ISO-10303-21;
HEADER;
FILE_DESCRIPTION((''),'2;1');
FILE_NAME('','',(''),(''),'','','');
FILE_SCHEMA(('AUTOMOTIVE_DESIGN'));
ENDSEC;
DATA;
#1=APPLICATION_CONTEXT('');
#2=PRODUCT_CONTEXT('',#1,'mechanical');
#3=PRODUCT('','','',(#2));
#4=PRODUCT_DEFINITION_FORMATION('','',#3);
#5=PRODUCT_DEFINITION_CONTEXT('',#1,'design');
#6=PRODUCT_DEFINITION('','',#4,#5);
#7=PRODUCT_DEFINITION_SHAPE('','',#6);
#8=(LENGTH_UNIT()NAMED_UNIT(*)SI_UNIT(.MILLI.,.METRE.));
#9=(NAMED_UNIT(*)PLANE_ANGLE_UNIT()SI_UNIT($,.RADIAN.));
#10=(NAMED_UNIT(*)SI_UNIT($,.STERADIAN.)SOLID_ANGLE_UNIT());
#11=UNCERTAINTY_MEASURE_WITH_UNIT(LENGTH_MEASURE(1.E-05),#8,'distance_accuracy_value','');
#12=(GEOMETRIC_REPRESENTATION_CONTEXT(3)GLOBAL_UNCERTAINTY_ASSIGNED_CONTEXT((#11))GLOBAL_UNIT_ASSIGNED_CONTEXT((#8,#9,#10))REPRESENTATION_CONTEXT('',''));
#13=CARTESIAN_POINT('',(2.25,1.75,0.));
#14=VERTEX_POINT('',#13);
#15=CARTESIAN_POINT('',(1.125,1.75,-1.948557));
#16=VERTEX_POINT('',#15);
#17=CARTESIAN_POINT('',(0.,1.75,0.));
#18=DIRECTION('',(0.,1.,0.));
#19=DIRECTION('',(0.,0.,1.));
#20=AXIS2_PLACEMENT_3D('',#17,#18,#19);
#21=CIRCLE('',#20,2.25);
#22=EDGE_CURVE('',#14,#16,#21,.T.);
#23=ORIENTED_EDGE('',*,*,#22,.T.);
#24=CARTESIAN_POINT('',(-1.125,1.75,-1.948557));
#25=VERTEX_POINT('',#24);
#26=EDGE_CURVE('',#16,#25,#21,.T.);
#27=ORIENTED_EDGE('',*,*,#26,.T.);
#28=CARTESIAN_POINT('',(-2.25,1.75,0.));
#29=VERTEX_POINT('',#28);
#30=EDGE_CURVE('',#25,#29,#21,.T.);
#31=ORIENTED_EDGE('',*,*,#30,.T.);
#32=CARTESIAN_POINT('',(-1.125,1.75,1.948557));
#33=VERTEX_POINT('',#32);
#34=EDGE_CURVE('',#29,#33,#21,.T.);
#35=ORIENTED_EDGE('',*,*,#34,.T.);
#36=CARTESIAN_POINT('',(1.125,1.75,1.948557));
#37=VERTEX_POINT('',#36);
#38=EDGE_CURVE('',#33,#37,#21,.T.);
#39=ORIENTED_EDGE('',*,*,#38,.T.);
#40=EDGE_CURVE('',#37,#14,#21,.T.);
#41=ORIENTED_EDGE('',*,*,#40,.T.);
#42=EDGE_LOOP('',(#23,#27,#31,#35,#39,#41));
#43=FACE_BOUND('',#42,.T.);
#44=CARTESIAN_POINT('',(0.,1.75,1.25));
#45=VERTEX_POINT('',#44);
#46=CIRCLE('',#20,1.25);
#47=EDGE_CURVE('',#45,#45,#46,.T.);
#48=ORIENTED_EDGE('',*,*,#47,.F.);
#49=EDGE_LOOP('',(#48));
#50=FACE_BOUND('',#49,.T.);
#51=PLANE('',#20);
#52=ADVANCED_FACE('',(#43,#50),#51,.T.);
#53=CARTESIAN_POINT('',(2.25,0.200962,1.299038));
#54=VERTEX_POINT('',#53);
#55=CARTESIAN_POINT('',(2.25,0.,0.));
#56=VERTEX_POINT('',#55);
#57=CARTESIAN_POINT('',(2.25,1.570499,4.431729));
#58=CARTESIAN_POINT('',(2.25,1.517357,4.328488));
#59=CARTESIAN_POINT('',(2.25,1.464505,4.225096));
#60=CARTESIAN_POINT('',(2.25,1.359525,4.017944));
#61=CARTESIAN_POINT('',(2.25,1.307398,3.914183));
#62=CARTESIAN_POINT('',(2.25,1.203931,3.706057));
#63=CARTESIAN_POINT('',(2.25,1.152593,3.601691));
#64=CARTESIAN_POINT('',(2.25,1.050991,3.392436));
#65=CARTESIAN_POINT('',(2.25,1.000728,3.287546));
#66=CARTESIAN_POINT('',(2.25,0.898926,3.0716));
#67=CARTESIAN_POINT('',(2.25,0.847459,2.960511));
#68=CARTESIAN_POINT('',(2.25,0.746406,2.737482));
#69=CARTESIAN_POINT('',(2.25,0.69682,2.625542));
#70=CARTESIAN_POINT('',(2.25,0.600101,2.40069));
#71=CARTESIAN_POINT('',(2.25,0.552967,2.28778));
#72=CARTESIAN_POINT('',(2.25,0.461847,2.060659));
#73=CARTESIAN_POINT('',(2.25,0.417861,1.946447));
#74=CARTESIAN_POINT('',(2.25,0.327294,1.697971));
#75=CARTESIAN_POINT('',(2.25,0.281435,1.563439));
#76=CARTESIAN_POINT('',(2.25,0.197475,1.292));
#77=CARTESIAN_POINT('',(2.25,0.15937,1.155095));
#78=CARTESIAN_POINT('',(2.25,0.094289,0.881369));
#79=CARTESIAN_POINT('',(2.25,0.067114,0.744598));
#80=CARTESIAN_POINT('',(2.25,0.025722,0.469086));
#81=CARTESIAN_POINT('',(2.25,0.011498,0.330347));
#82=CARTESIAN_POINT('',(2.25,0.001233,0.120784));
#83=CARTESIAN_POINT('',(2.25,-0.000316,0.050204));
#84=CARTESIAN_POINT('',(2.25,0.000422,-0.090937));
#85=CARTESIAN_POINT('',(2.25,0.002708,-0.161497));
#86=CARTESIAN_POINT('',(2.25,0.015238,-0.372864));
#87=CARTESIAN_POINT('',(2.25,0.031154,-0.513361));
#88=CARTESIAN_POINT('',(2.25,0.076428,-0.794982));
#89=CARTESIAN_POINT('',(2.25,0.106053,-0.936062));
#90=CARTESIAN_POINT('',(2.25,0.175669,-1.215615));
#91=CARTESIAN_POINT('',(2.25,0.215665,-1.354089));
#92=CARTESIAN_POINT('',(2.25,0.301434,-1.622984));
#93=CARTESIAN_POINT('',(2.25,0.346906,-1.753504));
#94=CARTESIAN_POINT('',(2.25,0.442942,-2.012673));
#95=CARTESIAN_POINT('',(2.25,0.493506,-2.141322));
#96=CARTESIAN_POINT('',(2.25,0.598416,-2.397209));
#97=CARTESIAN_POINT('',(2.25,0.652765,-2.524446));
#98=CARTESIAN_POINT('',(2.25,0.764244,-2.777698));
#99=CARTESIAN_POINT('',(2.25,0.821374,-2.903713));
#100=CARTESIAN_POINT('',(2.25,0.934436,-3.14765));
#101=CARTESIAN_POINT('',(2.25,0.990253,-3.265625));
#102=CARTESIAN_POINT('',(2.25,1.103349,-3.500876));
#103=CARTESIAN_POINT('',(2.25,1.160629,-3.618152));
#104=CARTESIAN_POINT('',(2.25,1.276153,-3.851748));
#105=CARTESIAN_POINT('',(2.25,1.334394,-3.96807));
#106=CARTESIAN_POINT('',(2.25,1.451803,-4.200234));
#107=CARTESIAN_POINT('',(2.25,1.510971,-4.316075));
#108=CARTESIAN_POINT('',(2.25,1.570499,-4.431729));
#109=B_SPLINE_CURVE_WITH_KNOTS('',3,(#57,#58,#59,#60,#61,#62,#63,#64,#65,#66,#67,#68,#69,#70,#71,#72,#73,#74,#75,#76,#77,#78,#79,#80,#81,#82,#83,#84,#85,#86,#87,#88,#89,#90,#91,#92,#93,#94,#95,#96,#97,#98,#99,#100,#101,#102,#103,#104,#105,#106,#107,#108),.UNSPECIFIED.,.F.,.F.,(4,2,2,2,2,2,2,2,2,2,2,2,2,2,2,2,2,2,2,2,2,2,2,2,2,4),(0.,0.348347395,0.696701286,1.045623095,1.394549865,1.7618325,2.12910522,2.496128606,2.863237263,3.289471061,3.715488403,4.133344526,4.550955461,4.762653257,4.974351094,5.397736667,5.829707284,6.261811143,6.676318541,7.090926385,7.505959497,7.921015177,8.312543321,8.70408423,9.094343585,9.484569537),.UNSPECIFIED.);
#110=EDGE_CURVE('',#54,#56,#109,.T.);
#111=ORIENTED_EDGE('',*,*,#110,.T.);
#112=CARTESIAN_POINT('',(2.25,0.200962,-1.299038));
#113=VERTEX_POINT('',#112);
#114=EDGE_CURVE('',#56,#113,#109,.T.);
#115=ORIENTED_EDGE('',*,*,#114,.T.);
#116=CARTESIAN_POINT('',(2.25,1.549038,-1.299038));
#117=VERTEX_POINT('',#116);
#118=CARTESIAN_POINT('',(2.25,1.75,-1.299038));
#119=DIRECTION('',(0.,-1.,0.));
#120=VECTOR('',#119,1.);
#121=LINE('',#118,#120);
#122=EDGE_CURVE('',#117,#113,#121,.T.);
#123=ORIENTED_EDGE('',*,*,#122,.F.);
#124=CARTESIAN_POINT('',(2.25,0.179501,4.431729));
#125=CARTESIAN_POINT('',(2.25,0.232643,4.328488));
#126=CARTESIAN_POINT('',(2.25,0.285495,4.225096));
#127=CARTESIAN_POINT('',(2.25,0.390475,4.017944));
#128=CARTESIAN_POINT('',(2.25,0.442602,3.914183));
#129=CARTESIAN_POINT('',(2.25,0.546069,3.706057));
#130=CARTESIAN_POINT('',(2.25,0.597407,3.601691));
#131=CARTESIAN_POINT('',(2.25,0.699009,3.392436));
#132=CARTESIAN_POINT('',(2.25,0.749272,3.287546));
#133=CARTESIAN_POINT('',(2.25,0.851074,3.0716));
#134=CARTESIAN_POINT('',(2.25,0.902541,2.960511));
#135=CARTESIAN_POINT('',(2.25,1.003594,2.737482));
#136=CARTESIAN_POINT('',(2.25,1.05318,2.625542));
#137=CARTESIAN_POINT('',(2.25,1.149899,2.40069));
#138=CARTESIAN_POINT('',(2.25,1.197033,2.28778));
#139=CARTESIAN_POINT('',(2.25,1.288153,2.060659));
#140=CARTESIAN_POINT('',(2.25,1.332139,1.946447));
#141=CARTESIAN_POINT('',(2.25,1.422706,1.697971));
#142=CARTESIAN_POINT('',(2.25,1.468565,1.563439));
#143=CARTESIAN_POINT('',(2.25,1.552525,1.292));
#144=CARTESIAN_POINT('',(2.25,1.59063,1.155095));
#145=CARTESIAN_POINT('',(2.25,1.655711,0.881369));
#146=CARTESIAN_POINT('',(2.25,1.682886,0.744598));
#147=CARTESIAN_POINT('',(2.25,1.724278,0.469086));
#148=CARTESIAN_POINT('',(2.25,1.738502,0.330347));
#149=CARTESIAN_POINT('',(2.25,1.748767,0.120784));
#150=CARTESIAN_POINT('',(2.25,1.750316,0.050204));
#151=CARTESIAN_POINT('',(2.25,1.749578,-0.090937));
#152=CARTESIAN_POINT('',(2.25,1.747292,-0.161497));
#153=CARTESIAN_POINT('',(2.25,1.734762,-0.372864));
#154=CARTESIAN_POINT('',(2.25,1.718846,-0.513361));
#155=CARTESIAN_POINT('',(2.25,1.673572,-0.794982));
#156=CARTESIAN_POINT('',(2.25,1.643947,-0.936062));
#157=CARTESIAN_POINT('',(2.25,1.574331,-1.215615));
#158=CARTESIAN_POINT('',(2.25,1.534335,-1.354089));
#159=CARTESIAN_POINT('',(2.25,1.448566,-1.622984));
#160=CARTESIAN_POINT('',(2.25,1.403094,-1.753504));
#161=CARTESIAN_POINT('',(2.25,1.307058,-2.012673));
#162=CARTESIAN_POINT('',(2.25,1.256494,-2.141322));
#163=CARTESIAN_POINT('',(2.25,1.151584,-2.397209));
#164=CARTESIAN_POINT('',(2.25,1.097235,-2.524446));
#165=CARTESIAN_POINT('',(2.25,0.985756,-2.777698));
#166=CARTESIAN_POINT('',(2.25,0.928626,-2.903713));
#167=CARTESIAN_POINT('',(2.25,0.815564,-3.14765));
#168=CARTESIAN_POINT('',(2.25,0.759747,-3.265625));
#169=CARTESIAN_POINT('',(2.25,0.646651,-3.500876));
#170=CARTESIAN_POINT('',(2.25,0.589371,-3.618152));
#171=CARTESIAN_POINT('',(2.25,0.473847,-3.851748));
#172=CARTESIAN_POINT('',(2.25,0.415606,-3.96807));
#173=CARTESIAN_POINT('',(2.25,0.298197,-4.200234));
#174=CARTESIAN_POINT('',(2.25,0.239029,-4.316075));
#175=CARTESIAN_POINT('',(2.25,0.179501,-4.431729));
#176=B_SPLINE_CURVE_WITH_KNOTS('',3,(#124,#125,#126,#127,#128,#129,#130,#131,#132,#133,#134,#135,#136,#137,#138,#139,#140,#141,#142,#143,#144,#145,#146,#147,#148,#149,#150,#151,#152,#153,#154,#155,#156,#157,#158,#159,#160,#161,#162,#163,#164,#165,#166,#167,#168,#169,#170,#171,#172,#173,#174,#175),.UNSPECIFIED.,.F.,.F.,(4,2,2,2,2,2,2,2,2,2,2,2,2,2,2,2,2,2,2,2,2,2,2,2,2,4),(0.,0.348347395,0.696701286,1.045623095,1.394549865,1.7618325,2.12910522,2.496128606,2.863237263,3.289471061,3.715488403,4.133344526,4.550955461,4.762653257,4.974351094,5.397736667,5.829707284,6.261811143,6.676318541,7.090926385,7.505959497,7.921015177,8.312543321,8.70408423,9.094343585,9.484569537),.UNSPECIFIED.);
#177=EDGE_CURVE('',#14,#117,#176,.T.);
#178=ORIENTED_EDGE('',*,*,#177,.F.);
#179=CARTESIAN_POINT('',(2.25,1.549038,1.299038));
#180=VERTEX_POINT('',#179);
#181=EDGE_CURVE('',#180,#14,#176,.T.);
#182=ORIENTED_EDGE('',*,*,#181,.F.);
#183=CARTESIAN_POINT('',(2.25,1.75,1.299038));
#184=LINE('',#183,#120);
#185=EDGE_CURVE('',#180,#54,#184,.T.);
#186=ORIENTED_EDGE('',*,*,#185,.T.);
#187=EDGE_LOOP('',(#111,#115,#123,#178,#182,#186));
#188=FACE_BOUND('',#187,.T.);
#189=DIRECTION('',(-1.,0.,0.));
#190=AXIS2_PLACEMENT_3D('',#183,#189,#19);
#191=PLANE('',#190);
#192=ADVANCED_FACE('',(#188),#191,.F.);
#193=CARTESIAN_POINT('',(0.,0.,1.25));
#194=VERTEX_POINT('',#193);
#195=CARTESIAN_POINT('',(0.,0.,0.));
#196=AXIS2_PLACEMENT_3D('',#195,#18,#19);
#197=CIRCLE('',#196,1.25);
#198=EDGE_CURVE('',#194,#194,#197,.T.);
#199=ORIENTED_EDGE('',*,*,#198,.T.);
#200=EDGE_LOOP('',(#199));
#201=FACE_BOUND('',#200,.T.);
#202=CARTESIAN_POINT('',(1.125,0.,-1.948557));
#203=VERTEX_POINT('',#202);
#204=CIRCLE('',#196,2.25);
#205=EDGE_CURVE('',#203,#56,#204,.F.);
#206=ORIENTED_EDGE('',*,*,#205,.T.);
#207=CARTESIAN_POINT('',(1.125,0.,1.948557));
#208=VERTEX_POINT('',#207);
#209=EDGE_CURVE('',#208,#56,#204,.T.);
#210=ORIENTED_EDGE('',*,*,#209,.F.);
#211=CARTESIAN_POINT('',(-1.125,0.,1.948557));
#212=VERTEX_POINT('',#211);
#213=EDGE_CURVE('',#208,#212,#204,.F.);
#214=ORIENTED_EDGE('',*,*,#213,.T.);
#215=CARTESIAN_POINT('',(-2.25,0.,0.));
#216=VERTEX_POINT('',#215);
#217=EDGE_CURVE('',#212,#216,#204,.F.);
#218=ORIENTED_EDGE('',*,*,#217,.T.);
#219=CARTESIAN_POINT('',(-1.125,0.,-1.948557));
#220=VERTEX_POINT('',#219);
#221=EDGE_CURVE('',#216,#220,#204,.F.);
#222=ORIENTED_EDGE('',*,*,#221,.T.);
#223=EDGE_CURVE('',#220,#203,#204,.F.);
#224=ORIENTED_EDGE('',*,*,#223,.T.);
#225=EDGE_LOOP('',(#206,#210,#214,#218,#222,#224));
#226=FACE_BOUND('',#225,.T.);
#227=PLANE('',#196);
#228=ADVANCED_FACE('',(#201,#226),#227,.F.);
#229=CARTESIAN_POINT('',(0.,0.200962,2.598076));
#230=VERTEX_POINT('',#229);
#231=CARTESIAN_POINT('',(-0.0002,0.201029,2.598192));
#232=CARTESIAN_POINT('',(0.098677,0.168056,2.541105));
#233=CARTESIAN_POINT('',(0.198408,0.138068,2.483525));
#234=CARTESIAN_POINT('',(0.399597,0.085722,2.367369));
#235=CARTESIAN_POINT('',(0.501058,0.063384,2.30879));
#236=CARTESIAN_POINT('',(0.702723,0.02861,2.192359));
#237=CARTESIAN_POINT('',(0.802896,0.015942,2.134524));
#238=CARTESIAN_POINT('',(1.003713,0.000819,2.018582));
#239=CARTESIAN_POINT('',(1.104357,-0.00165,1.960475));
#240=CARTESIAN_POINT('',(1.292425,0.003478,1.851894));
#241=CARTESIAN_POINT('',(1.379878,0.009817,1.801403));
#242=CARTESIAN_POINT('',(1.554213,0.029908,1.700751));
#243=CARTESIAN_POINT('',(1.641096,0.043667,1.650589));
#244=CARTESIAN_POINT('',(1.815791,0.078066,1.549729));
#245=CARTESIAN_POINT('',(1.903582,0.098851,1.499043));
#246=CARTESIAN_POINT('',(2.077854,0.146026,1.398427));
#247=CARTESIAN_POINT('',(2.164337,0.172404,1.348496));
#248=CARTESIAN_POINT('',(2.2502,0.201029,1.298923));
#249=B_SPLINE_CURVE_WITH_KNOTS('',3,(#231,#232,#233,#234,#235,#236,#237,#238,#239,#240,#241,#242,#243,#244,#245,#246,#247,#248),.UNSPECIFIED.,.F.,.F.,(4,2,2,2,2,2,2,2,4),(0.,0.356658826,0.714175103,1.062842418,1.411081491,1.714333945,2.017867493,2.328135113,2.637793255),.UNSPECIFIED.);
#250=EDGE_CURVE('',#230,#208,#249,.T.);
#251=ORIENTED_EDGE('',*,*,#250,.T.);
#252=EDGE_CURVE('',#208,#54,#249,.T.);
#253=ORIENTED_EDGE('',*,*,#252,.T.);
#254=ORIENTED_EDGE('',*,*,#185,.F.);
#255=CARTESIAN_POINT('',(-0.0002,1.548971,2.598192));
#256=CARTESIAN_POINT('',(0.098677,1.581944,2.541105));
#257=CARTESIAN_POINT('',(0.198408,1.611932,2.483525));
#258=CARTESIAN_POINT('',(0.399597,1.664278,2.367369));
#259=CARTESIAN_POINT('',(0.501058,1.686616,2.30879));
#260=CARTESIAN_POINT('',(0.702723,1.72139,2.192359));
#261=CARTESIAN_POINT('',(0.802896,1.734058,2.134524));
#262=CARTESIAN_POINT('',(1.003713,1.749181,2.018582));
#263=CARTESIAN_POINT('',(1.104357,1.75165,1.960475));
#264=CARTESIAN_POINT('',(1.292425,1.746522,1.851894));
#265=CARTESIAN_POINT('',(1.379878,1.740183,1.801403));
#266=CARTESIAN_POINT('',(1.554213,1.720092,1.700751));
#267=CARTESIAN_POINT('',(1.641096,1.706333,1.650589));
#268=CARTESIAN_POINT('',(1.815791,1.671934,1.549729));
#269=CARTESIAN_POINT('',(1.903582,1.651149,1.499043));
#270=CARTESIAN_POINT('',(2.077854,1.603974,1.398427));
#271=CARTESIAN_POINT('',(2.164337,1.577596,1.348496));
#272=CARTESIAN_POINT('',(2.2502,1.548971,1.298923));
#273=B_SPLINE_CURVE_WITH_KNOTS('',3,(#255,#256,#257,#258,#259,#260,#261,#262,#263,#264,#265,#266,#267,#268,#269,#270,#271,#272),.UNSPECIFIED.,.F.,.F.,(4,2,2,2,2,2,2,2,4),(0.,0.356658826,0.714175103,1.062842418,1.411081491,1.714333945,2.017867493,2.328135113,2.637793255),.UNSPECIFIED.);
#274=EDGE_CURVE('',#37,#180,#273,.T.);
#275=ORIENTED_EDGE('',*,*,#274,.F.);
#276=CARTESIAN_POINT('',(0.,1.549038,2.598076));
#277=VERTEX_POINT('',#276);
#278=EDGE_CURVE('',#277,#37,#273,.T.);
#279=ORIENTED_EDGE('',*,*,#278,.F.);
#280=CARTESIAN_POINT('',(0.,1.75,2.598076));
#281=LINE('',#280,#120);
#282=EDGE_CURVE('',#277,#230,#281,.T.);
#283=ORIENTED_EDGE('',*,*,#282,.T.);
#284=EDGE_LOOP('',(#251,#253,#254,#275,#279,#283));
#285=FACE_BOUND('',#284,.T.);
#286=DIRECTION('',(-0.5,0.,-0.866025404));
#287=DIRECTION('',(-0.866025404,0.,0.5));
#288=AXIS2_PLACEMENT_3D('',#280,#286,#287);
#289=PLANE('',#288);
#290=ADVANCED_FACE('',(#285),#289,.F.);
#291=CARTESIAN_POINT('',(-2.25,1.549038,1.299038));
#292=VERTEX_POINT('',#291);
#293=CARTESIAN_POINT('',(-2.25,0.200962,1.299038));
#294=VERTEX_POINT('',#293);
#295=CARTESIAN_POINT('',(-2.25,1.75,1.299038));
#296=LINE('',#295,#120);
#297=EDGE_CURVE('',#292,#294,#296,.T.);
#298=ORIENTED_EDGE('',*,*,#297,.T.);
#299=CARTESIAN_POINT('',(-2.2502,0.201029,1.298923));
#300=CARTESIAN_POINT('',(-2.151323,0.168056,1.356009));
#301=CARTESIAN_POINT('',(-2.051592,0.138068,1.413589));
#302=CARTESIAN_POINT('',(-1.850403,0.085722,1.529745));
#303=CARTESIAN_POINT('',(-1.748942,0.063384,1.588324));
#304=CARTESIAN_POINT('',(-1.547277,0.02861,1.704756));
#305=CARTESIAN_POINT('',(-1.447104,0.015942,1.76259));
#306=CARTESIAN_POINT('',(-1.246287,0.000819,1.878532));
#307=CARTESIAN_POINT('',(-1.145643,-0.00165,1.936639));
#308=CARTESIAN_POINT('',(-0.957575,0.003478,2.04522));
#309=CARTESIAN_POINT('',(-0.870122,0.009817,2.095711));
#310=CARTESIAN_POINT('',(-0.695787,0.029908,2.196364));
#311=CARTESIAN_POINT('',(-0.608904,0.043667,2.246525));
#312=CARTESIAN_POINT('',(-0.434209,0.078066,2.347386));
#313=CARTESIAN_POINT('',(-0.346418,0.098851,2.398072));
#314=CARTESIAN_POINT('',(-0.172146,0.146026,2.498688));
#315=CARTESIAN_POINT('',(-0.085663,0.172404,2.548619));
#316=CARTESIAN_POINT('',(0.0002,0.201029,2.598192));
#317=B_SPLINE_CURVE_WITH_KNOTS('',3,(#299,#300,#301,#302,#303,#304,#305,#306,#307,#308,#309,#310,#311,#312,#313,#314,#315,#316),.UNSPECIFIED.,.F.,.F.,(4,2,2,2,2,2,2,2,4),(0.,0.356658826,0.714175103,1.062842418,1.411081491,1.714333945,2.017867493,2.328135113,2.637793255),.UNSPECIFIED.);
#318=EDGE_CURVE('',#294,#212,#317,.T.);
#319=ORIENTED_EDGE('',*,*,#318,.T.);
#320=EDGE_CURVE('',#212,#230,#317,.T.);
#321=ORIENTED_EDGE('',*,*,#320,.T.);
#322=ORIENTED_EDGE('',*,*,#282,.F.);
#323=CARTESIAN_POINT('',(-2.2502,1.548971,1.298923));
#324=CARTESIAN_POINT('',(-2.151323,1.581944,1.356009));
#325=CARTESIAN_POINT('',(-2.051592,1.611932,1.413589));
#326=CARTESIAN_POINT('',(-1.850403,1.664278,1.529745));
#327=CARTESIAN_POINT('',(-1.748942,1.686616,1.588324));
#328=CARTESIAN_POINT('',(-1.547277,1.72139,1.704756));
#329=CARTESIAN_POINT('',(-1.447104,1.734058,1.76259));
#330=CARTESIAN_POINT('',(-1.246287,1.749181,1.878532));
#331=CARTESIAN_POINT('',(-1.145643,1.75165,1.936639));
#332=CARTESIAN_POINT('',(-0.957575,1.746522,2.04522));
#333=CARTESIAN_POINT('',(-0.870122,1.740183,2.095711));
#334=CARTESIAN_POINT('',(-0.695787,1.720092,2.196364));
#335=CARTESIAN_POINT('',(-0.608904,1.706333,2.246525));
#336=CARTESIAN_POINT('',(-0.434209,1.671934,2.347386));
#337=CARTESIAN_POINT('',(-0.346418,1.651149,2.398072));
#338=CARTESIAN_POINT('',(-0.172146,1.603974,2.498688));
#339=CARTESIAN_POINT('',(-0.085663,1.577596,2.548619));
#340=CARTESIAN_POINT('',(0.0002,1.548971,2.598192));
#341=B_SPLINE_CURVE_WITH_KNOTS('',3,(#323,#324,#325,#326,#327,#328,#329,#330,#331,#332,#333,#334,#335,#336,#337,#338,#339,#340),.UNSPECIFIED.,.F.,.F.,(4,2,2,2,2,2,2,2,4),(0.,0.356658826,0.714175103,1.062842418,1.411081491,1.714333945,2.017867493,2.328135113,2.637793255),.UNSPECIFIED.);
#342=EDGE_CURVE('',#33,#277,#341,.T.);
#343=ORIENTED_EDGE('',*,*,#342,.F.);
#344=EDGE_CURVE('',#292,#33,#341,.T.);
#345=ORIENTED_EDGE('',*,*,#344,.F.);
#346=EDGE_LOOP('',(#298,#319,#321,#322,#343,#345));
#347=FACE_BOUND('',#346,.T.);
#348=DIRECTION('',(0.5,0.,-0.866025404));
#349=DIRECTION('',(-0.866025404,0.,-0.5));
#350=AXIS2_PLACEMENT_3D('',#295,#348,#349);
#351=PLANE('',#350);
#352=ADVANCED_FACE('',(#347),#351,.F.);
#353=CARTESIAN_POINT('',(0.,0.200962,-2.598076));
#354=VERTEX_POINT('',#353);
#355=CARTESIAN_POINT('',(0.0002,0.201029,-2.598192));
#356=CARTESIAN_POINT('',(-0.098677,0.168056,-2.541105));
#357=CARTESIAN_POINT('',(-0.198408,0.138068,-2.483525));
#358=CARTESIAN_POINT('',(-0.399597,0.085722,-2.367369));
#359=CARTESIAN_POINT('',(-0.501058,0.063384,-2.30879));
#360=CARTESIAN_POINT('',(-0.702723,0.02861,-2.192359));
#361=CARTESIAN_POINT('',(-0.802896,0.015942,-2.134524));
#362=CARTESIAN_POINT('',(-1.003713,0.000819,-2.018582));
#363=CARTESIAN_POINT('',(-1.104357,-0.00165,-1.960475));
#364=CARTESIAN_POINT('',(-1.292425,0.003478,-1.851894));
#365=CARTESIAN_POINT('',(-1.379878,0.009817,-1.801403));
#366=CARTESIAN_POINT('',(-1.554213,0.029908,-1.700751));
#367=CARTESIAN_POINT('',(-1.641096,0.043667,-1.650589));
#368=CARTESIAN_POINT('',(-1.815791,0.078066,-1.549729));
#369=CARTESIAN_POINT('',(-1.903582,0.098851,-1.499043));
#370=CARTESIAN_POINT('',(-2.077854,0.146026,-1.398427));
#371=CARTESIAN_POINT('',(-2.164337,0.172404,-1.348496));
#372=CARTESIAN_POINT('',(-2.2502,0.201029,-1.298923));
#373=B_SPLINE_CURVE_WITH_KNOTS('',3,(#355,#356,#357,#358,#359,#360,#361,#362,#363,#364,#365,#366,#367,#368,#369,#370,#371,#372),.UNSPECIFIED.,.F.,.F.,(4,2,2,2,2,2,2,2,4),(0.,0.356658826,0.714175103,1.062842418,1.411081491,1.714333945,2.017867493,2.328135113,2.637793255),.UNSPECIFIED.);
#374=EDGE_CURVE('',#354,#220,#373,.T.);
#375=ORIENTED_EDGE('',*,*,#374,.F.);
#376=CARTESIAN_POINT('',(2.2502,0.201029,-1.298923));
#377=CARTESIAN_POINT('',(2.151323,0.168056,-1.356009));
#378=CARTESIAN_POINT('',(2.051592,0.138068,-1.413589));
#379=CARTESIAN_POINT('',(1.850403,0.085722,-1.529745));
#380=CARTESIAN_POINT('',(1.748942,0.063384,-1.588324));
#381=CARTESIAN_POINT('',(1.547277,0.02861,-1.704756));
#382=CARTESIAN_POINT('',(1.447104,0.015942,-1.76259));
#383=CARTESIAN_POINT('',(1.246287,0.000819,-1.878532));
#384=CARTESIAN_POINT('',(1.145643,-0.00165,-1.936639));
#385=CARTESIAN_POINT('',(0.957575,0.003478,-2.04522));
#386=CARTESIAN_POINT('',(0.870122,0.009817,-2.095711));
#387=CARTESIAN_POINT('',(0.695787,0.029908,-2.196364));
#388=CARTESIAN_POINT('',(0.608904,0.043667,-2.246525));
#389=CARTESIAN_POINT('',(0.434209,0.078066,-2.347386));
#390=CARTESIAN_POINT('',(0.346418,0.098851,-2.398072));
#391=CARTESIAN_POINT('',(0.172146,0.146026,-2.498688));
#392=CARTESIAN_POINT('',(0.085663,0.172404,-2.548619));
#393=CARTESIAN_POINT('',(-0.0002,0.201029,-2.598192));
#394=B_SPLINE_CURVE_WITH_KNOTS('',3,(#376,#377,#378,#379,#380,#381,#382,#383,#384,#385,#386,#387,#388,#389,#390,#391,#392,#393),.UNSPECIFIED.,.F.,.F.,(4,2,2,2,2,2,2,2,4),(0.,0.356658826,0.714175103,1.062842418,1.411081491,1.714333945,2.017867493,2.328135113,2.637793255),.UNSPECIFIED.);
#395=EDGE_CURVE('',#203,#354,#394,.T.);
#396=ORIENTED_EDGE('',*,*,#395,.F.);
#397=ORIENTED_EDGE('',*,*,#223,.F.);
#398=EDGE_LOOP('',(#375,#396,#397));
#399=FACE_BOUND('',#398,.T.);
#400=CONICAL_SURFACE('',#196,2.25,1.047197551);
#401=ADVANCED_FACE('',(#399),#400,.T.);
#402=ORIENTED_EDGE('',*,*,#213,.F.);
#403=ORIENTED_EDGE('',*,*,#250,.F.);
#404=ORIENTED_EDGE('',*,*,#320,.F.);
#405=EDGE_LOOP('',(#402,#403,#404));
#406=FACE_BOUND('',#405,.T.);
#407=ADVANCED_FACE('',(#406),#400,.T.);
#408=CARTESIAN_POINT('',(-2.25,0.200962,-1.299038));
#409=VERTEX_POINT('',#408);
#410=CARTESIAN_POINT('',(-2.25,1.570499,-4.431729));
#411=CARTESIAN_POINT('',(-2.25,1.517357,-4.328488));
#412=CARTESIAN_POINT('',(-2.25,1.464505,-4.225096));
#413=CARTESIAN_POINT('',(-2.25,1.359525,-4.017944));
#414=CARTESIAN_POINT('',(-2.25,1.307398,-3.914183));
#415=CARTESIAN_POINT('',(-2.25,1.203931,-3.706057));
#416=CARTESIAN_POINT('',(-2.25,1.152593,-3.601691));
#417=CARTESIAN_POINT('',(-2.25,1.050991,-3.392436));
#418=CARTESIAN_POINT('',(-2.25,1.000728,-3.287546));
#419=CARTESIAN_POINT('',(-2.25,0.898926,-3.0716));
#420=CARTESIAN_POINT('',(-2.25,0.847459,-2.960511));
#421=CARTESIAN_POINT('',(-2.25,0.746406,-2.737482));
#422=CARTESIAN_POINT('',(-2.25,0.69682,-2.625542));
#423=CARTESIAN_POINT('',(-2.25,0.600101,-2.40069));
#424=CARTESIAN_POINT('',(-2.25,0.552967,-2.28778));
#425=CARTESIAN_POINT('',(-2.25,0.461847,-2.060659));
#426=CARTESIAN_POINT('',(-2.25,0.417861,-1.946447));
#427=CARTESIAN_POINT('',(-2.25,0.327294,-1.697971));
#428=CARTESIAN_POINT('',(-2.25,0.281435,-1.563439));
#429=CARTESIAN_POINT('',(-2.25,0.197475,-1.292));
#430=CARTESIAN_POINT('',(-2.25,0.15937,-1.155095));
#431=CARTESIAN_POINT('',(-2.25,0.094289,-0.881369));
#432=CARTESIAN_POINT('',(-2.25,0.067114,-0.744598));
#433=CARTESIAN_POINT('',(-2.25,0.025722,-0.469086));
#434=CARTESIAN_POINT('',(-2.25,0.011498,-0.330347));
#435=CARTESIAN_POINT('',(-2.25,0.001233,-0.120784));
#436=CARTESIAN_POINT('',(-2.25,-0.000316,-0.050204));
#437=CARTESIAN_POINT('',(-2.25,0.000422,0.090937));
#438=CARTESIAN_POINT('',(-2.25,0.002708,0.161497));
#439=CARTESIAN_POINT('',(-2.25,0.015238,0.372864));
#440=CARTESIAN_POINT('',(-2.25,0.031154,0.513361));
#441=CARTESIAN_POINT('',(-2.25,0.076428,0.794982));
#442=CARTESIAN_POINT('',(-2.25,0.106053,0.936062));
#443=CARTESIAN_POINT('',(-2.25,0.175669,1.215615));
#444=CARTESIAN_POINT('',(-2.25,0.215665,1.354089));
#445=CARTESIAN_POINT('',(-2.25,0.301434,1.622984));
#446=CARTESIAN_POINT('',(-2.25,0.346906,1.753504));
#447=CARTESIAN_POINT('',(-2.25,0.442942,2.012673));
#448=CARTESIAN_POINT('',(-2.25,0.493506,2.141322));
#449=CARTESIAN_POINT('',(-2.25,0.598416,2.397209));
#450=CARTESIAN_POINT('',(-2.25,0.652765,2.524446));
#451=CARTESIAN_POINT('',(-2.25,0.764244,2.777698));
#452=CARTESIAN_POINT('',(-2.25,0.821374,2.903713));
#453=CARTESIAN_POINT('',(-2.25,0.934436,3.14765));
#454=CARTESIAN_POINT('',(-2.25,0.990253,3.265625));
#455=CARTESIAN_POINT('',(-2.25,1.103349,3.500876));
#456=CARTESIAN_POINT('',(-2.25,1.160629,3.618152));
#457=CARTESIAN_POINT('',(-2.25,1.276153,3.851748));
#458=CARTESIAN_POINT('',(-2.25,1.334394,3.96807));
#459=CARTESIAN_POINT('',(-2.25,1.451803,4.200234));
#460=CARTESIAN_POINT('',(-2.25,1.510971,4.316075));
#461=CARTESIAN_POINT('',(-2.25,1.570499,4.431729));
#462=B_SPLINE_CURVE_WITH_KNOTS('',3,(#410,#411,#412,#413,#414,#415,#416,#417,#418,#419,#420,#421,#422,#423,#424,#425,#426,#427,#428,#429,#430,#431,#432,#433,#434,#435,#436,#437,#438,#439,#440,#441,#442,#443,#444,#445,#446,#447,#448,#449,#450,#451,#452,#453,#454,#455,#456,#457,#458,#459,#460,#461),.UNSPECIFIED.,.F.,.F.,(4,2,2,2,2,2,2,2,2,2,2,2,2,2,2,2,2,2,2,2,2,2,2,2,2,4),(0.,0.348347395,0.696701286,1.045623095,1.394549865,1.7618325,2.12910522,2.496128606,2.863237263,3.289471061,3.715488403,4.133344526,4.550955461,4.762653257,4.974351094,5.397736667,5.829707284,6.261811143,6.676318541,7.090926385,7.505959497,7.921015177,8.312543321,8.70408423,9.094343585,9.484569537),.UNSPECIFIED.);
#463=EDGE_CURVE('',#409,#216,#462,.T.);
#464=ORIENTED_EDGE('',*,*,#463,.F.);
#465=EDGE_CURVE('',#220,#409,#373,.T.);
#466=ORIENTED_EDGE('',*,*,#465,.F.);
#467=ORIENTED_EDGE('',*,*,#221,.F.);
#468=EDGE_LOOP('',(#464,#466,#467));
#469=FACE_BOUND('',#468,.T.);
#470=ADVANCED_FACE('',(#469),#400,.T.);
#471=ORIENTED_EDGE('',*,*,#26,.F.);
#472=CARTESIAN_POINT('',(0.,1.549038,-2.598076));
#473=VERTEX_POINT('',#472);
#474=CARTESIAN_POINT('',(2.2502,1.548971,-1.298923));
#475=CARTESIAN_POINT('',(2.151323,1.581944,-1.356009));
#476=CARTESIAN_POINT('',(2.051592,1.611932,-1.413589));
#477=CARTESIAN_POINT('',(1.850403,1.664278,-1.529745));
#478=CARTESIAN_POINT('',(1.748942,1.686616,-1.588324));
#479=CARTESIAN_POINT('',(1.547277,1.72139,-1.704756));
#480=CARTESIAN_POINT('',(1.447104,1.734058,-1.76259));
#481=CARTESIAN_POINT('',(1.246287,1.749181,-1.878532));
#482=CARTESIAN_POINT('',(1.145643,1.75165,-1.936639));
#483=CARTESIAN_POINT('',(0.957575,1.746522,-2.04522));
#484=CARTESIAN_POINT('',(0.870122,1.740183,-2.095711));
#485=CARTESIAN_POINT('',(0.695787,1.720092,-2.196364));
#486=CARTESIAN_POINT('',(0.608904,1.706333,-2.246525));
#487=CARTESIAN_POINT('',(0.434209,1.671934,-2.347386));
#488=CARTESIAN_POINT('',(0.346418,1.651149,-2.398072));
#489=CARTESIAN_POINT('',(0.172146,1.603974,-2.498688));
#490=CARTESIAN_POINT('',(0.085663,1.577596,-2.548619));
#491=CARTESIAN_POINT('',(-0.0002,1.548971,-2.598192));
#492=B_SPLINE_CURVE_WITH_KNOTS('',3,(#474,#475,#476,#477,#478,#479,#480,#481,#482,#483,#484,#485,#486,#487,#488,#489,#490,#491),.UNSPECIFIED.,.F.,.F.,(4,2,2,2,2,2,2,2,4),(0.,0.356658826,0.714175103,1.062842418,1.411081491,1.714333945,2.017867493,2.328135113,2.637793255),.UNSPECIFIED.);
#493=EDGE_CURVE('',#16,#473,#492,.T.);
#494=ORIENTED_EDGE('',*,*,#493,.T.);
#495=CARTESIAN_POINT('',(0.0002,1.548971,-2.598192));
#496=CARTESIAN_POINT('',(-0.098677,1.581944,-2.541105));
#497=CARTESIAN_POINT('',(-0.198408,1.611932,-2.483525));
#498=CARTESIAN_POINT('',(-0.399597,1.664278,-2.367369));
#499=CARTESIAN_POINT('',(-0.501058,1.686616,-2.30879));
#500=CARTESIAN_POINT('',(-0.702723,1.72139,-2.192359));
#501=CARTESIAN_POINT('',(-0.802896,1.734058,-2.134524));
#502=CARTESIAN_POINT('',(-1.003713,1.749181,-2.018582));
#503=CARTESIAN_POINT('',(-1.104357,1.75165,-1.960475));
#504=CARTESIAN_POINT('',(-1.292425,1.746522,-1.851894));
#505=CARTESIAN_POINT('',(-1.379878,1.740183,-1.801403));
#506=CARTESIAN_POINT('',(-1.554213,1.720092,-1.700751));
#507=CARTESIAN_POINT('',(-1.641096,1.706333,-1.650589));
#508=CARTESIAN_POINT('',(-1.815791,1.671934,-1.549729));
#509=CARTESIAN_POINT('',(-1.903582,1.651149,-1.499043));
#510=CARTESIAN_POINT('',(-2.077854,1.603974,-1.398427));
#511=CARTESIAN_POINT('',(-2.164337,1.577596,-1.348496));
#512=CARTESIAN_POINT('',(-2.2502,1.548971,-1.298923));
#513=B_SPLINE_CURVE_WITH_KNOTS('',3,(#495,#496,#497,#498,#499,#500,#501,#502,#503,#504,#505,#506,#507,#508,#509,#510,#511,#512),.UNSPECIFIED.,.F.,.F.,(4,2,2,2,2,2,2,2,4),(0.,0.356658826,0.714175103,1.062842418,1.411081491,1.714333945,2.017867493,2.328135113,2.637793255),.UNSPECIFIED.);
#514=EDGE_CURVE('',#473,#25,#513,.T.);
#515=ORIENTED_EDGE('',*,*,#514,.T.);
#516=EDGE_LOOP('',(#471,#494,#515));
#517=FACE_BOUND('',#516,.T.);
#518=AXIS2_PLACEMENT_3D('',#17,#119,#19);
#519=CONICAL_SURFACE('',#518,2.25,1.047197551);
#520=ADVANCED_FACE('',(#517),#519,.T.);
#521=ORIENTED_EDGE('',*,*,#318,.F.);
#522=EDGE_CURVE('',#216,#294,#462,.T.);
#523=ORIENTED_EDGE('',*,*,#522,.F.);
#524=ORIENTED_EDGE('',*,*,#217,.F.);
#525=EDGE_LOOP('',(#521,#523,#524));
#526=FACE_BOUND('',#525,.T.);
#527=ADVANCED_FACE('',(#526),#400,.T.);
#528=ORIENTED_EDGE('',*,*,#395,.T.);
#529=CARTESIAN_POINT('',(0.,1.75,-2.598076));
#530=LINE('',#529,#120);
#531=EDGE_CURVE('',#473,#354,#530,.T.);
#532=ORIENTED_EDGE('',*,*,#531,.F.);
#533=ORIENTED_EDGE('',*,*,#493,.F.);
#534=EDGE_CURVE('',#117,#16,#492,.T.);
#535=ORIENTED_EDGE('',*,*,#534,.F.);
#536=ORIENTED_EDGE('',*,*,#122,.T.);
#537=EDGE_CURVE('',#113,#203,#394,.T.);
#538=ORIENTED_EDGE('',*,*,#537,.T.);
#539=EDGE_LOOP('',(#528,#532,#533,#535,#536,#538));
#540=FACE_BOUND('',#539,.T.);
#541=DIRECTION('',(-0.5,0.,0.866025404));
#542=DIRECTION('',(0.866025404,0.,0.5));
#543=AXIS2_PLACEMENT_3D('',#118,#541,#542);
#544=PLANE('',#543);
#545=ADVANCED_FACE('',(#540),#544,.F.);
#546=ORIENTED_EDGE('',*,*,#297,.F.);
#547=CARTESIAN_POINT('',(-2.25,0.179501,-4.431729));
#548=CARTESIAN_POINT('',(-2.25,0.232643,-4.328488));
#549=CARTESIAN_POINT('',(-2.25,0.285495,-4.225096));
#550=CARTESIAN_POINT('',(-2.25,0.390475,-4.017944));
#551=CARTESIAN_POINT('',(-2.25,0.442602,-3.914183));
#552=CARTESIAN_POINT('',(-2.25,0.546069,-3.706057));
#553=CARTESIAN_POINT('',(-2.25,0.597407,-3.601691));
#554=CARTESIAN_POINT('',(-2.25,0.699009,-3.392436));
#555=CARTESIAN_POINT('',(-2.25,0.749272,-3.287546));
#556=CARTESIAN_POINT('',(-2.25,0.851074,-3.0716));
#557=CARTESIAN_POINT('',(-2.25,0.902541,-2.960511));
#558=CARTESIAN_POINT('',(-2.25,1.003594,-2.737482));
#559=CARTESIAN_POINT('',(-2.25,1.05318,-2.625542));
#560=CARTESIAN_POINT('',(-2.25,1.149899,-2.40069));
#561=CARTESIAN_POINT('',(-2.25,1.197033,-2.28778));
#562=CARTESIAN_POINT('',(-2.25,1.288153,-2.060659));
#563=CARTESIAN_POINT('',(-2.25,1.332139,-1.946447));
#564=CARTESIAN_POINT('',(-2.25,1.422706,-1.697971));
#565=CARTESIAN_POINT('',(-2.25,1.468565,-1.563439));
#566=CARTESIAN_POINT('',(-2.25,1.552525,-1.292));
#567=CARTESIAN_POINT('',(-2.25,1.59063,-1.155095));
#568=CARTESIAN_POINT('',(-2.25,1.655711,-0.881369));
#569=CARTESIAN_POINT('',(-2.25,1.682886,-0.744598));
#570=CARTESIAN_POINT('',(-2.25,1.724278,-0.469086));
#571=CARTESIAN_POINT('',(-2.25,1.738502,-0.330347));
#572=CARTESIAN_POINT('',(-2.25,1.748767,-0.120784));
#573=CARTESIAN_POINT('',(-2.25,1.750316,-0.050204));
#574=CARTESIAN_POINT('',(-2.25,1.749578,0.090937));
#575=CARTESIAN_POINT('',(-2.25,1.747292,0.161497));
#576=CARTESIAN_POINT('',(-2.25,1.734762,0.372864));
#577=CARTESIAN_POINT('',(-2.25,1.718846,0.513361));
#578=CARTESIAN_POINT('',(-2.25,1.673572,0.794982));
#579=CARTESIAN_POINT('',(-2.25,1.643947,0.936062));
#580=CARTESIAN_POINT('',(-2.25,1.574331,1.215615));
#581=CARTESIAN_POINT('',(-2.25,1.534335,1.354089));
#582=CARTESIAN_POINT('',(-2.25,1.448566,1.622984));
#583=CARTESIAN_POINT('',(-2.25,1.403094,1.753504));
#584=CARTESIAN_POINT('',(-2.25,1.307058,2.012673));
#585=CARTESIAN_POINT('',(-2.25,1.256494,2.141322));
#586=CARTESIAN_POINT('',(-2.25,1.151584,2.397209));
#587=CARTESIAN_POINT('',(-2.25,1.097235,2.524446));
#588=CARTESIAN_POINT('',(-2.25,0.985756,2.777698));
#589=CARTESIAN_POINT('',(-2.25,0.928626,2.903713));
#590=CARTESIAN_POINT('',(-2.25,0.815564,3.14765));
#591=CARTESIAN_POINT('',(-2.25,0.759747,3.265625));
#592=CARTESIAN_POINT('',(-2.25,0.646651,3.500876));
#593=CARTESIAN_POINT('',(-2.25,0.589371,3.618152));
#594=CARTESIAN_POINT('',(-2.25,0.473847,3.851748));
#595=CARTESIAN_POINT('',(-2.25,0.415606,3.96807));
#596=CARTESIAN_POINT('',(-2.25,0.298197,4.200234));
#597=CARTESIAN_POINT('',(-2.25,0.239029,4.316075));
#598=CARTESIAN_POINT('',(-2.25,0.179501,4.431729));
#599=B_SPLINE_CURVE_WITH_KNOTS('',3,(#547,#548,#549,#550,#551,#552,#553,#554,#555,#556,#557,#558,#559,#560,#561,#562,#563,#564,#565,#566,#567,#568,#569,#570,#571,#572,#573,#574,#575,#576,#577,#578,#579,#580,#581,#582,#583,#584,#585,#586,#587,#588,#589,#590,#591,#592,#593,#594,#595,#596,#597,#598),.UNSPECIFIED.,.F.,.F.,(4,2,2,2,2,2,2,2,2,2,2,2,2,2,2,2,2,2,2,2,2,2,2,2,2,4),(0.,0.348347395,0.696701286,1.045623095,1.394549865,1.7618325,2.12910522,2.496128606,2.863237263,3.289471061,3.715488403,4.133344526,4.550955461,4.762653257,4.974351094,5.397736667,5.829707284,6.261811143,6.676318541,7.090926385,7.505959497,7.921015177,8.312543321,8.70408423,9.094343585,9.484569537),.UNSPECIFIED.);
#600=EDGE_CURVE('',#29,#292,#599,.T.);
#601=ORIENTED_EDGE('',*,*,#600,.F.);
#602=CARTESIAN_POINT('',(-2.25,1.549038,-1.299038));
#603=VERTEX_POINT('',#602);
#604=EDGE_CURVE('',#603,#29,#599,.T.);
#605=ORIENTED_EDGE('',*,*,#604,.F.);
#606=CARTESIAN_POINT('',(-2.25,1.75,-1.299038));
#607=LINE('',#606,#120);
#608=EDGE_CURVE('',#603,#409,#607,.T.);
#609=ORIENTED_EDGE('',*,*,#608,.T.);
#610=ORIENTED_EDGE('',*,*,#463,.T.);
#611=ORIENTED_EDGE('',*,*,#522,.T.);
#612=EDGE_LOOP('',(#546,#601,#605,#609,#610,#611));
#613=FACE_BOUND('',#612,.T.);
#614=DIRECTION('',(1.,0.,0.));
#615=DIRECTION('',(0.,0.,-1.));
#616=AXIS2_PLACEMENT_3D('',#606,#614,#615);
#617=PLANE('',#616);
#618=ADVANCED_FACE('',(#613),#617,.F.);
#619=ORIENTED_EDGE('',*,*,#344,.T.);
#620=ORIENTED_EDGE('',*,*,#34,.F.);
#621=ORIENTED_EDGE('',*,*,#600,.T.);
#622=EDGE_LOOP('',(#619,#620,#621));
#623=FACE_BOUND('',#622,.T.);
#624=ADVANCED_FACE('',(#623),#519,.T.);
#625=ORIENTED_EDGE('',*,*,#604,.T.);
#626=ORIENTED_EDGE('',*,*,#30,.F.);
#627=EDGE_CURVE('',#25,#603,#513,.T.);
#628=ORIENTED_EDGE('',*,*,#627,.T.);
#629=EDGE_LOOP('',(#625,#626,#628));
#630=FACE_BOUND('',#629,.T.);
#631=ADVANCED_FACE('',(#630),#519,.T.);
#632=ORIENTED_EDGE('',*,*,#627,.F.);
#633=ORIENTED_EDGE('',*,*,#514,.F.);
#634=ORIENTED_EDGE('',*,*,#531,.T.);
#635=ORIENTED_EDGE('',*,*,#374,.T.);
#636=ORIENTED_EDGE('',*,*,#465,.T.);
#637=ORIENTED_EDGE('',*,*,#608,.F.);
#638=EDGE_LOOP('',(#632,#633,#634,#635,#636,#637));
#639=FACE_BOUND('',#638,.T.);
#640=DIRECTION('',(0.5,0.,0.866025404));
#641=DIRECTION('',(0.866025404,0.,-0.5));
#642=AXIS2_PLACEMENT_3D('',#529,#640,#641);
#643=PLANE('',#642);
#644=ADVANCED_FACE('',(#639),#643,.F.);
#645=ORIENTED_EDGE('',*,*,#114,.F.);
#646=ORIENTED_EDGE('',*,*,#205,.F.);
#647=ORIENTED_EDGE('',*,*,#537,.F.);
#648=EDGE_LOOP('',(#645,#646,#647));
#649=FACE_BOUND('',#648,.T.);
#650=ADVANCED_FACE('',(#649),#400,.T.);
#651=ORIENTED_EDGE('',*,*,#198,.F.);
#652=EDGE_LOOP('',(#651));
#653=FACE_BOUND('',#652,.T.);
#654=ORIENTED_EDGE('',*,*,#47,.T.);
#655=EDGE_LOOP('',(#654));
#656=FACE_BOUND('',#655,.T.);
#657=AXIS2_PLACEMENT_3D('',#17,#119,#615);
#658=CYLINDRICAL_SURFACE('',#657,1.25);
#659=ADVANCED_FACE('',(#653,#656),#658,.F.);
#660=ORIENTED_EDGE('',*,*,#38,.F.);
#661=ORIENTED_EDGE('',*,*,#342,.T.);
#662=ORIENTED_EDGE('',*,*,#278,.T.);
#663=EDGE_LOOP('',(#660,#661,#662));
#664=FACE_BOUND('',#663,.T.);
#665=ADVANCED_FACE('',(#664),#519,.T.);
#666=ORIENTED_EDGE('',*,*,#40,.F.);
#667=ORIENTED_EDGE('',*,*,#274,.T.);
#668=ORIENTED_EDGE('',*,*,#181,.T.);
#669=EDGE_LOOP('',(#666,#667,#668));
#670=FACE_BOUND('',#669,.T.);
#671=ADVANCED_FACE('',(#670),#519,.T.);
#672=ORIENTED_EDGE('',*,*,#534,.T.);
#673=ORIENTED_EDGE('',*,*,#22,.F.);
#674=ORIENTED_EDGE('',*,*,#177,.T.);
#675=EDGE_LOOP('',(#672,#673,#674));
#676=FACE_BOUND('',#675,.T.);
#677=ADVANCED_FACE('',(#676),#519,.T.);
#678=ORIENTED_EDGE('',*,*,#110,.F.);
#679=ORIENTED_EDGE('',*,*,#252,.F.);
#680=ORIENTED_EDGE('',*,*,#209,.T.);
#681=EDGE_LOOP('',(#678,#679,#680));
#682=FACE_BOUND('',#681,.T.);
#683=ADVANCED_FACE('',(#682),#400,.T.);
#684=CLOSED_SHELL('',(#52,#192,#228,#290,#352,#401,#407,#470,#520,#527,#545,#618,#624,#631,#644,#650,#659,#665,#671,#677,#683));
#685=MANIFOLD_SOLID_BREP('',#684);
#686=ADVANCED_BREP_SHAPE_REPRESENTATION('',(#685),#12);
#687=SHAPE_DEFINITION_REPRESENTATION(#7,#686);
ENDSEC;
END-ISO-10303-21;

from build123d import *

# Parameters (mm, degrees)
SKETCH1_R               = 1.25
BOSS_EXTRUDE1_DEPTH     = 1.75
SKETCH2_OUTSIDE_W       = 14.846
SKETCH2_OUTSIDE_H       = 15.542
SKETCH2_OUTSIDE_R       = 2.25
CUT_EXTRUDE1_DEPTH      = 2
CUT_EXTRUDE1_DRAFT      = -60
MIRROR1_COPY_1_SKETCH_W = 14.846
MIRROR1_COPY_1_SKETCH_H = 15.542
MIRROR1_COPY_1_SKETCH_R = 2.25
MIRROR1_COPY_1_DEPTH    = 2
MIRROR1_COPY_1_DRAFT    = -60


with BuildPart() as part:
    # Sketch1 → Boss-Extrude1 (new body)
    with BuildSketch(Plane(origin=(0, 0, 0), x_dir=(1, 0, 0), z_dir=(0, 1, 0))):
        Polygon((0, 2.598076211), (-2.25, 1.299038106), (-2.25, -1.299038106), (0, -2.598076211), (2.25, -1.299038106), (2.25, 1.299038106), align=None)
        with Locations(Location((0, 0, 0), (0, 0, 270))):
            Circle(SKETCH1_R, mode=Mode.SUBTRACT)
    extrude(amount=BOSS_EXTRUDE1_DEPTH)


with BuildPart() as cut_extrude1_tool:
    # Sketch2 outside → Cut-Extrude1 (with draft: the straight prism first)
    with BuildSketch(Plane(origin=(0, 1.75, 0), x_dir=(1, 0, 0), z_dir=(0, 1, 0))):
        Rectangle(SKETCH2_OUTSIDE_W, SKETCH2_OUTSIDE_H)
        Circle(SKETCH2_OUTSIDE_R, mode=Mode.SUBTRACT)
    extrude(amount=-CUT_EXTRUDE1_DEPTH)
    # Cut-Extrude1: the draft: its side faces are tilted about the plane it starts from
    cut_extrude1_sides = [cut_extrude1_tool.faces().sort_by_distance(p)[0] for p in [
        (0, 0.75, 7.771),
        (7.423, 0.75, 0),
        (0, 0.75, -7.771),
        (-7.423, 0.75, 0),
        (-2.25, 0.75, 0),
    ]]
    draft(cut_extrude1_sides, Plane(origin=(0, 1.75, 0), x_dir=(1, 0, 0), z_dir=(0, 1, 0)), CUT_EXTRUDE1_DRAFT)


with BuildPart() as part_1:
    add(part.part)

    # Cut-Extrude1: cut by cut_extrude1_tool
    add(cut_extrude1_tool.part, mode=Mode.SUBTRACT)


with BuildPart() as mirror1_copy_1_tool:
    # Mirror1 copy 1 sketch → Mirror1 copy 1 (with draft: the straight prism first)
    with BuildSketch(Plane.XZ):
        Rectangle(MIRROR1_COPY_1_SKETCH_W, MIRROR1_COPY_1_SKETCH_H)
        Circle(MIRROR1_COPY_1_SKETCH_R, mode=Mode.SUBTRACT)
    extrude(amount=-MIRROR1_COPY_1_DEPTH)
    # Mirror1 copy 1: the draft: its side faces are tilted about the plane it starts from
    mirror1_copy_1_sides = [mirror1_copy_1_tool.faces().sort_by_distance(p)[0] for p in [
        (0, 1, 7.771),
        (7.423, 1, 0),
        (0, 1, -7.771),
        (-7.423, 1, 0),
        (-2.25, 1, 0),
    ]]
    draft(mirror1_copy_1_sides, Plane.XZ, MIRROR1_COPY_1_DRAFT)


with BuildPart() as part_2:
    add(part_1.part)

    # Mirror1 copy 1: cut by mirror1_copy_1_tool
    add(mirror1_copy_1_tool.part, mode=Mode.SUBTRACT)


solid = part_2.part
